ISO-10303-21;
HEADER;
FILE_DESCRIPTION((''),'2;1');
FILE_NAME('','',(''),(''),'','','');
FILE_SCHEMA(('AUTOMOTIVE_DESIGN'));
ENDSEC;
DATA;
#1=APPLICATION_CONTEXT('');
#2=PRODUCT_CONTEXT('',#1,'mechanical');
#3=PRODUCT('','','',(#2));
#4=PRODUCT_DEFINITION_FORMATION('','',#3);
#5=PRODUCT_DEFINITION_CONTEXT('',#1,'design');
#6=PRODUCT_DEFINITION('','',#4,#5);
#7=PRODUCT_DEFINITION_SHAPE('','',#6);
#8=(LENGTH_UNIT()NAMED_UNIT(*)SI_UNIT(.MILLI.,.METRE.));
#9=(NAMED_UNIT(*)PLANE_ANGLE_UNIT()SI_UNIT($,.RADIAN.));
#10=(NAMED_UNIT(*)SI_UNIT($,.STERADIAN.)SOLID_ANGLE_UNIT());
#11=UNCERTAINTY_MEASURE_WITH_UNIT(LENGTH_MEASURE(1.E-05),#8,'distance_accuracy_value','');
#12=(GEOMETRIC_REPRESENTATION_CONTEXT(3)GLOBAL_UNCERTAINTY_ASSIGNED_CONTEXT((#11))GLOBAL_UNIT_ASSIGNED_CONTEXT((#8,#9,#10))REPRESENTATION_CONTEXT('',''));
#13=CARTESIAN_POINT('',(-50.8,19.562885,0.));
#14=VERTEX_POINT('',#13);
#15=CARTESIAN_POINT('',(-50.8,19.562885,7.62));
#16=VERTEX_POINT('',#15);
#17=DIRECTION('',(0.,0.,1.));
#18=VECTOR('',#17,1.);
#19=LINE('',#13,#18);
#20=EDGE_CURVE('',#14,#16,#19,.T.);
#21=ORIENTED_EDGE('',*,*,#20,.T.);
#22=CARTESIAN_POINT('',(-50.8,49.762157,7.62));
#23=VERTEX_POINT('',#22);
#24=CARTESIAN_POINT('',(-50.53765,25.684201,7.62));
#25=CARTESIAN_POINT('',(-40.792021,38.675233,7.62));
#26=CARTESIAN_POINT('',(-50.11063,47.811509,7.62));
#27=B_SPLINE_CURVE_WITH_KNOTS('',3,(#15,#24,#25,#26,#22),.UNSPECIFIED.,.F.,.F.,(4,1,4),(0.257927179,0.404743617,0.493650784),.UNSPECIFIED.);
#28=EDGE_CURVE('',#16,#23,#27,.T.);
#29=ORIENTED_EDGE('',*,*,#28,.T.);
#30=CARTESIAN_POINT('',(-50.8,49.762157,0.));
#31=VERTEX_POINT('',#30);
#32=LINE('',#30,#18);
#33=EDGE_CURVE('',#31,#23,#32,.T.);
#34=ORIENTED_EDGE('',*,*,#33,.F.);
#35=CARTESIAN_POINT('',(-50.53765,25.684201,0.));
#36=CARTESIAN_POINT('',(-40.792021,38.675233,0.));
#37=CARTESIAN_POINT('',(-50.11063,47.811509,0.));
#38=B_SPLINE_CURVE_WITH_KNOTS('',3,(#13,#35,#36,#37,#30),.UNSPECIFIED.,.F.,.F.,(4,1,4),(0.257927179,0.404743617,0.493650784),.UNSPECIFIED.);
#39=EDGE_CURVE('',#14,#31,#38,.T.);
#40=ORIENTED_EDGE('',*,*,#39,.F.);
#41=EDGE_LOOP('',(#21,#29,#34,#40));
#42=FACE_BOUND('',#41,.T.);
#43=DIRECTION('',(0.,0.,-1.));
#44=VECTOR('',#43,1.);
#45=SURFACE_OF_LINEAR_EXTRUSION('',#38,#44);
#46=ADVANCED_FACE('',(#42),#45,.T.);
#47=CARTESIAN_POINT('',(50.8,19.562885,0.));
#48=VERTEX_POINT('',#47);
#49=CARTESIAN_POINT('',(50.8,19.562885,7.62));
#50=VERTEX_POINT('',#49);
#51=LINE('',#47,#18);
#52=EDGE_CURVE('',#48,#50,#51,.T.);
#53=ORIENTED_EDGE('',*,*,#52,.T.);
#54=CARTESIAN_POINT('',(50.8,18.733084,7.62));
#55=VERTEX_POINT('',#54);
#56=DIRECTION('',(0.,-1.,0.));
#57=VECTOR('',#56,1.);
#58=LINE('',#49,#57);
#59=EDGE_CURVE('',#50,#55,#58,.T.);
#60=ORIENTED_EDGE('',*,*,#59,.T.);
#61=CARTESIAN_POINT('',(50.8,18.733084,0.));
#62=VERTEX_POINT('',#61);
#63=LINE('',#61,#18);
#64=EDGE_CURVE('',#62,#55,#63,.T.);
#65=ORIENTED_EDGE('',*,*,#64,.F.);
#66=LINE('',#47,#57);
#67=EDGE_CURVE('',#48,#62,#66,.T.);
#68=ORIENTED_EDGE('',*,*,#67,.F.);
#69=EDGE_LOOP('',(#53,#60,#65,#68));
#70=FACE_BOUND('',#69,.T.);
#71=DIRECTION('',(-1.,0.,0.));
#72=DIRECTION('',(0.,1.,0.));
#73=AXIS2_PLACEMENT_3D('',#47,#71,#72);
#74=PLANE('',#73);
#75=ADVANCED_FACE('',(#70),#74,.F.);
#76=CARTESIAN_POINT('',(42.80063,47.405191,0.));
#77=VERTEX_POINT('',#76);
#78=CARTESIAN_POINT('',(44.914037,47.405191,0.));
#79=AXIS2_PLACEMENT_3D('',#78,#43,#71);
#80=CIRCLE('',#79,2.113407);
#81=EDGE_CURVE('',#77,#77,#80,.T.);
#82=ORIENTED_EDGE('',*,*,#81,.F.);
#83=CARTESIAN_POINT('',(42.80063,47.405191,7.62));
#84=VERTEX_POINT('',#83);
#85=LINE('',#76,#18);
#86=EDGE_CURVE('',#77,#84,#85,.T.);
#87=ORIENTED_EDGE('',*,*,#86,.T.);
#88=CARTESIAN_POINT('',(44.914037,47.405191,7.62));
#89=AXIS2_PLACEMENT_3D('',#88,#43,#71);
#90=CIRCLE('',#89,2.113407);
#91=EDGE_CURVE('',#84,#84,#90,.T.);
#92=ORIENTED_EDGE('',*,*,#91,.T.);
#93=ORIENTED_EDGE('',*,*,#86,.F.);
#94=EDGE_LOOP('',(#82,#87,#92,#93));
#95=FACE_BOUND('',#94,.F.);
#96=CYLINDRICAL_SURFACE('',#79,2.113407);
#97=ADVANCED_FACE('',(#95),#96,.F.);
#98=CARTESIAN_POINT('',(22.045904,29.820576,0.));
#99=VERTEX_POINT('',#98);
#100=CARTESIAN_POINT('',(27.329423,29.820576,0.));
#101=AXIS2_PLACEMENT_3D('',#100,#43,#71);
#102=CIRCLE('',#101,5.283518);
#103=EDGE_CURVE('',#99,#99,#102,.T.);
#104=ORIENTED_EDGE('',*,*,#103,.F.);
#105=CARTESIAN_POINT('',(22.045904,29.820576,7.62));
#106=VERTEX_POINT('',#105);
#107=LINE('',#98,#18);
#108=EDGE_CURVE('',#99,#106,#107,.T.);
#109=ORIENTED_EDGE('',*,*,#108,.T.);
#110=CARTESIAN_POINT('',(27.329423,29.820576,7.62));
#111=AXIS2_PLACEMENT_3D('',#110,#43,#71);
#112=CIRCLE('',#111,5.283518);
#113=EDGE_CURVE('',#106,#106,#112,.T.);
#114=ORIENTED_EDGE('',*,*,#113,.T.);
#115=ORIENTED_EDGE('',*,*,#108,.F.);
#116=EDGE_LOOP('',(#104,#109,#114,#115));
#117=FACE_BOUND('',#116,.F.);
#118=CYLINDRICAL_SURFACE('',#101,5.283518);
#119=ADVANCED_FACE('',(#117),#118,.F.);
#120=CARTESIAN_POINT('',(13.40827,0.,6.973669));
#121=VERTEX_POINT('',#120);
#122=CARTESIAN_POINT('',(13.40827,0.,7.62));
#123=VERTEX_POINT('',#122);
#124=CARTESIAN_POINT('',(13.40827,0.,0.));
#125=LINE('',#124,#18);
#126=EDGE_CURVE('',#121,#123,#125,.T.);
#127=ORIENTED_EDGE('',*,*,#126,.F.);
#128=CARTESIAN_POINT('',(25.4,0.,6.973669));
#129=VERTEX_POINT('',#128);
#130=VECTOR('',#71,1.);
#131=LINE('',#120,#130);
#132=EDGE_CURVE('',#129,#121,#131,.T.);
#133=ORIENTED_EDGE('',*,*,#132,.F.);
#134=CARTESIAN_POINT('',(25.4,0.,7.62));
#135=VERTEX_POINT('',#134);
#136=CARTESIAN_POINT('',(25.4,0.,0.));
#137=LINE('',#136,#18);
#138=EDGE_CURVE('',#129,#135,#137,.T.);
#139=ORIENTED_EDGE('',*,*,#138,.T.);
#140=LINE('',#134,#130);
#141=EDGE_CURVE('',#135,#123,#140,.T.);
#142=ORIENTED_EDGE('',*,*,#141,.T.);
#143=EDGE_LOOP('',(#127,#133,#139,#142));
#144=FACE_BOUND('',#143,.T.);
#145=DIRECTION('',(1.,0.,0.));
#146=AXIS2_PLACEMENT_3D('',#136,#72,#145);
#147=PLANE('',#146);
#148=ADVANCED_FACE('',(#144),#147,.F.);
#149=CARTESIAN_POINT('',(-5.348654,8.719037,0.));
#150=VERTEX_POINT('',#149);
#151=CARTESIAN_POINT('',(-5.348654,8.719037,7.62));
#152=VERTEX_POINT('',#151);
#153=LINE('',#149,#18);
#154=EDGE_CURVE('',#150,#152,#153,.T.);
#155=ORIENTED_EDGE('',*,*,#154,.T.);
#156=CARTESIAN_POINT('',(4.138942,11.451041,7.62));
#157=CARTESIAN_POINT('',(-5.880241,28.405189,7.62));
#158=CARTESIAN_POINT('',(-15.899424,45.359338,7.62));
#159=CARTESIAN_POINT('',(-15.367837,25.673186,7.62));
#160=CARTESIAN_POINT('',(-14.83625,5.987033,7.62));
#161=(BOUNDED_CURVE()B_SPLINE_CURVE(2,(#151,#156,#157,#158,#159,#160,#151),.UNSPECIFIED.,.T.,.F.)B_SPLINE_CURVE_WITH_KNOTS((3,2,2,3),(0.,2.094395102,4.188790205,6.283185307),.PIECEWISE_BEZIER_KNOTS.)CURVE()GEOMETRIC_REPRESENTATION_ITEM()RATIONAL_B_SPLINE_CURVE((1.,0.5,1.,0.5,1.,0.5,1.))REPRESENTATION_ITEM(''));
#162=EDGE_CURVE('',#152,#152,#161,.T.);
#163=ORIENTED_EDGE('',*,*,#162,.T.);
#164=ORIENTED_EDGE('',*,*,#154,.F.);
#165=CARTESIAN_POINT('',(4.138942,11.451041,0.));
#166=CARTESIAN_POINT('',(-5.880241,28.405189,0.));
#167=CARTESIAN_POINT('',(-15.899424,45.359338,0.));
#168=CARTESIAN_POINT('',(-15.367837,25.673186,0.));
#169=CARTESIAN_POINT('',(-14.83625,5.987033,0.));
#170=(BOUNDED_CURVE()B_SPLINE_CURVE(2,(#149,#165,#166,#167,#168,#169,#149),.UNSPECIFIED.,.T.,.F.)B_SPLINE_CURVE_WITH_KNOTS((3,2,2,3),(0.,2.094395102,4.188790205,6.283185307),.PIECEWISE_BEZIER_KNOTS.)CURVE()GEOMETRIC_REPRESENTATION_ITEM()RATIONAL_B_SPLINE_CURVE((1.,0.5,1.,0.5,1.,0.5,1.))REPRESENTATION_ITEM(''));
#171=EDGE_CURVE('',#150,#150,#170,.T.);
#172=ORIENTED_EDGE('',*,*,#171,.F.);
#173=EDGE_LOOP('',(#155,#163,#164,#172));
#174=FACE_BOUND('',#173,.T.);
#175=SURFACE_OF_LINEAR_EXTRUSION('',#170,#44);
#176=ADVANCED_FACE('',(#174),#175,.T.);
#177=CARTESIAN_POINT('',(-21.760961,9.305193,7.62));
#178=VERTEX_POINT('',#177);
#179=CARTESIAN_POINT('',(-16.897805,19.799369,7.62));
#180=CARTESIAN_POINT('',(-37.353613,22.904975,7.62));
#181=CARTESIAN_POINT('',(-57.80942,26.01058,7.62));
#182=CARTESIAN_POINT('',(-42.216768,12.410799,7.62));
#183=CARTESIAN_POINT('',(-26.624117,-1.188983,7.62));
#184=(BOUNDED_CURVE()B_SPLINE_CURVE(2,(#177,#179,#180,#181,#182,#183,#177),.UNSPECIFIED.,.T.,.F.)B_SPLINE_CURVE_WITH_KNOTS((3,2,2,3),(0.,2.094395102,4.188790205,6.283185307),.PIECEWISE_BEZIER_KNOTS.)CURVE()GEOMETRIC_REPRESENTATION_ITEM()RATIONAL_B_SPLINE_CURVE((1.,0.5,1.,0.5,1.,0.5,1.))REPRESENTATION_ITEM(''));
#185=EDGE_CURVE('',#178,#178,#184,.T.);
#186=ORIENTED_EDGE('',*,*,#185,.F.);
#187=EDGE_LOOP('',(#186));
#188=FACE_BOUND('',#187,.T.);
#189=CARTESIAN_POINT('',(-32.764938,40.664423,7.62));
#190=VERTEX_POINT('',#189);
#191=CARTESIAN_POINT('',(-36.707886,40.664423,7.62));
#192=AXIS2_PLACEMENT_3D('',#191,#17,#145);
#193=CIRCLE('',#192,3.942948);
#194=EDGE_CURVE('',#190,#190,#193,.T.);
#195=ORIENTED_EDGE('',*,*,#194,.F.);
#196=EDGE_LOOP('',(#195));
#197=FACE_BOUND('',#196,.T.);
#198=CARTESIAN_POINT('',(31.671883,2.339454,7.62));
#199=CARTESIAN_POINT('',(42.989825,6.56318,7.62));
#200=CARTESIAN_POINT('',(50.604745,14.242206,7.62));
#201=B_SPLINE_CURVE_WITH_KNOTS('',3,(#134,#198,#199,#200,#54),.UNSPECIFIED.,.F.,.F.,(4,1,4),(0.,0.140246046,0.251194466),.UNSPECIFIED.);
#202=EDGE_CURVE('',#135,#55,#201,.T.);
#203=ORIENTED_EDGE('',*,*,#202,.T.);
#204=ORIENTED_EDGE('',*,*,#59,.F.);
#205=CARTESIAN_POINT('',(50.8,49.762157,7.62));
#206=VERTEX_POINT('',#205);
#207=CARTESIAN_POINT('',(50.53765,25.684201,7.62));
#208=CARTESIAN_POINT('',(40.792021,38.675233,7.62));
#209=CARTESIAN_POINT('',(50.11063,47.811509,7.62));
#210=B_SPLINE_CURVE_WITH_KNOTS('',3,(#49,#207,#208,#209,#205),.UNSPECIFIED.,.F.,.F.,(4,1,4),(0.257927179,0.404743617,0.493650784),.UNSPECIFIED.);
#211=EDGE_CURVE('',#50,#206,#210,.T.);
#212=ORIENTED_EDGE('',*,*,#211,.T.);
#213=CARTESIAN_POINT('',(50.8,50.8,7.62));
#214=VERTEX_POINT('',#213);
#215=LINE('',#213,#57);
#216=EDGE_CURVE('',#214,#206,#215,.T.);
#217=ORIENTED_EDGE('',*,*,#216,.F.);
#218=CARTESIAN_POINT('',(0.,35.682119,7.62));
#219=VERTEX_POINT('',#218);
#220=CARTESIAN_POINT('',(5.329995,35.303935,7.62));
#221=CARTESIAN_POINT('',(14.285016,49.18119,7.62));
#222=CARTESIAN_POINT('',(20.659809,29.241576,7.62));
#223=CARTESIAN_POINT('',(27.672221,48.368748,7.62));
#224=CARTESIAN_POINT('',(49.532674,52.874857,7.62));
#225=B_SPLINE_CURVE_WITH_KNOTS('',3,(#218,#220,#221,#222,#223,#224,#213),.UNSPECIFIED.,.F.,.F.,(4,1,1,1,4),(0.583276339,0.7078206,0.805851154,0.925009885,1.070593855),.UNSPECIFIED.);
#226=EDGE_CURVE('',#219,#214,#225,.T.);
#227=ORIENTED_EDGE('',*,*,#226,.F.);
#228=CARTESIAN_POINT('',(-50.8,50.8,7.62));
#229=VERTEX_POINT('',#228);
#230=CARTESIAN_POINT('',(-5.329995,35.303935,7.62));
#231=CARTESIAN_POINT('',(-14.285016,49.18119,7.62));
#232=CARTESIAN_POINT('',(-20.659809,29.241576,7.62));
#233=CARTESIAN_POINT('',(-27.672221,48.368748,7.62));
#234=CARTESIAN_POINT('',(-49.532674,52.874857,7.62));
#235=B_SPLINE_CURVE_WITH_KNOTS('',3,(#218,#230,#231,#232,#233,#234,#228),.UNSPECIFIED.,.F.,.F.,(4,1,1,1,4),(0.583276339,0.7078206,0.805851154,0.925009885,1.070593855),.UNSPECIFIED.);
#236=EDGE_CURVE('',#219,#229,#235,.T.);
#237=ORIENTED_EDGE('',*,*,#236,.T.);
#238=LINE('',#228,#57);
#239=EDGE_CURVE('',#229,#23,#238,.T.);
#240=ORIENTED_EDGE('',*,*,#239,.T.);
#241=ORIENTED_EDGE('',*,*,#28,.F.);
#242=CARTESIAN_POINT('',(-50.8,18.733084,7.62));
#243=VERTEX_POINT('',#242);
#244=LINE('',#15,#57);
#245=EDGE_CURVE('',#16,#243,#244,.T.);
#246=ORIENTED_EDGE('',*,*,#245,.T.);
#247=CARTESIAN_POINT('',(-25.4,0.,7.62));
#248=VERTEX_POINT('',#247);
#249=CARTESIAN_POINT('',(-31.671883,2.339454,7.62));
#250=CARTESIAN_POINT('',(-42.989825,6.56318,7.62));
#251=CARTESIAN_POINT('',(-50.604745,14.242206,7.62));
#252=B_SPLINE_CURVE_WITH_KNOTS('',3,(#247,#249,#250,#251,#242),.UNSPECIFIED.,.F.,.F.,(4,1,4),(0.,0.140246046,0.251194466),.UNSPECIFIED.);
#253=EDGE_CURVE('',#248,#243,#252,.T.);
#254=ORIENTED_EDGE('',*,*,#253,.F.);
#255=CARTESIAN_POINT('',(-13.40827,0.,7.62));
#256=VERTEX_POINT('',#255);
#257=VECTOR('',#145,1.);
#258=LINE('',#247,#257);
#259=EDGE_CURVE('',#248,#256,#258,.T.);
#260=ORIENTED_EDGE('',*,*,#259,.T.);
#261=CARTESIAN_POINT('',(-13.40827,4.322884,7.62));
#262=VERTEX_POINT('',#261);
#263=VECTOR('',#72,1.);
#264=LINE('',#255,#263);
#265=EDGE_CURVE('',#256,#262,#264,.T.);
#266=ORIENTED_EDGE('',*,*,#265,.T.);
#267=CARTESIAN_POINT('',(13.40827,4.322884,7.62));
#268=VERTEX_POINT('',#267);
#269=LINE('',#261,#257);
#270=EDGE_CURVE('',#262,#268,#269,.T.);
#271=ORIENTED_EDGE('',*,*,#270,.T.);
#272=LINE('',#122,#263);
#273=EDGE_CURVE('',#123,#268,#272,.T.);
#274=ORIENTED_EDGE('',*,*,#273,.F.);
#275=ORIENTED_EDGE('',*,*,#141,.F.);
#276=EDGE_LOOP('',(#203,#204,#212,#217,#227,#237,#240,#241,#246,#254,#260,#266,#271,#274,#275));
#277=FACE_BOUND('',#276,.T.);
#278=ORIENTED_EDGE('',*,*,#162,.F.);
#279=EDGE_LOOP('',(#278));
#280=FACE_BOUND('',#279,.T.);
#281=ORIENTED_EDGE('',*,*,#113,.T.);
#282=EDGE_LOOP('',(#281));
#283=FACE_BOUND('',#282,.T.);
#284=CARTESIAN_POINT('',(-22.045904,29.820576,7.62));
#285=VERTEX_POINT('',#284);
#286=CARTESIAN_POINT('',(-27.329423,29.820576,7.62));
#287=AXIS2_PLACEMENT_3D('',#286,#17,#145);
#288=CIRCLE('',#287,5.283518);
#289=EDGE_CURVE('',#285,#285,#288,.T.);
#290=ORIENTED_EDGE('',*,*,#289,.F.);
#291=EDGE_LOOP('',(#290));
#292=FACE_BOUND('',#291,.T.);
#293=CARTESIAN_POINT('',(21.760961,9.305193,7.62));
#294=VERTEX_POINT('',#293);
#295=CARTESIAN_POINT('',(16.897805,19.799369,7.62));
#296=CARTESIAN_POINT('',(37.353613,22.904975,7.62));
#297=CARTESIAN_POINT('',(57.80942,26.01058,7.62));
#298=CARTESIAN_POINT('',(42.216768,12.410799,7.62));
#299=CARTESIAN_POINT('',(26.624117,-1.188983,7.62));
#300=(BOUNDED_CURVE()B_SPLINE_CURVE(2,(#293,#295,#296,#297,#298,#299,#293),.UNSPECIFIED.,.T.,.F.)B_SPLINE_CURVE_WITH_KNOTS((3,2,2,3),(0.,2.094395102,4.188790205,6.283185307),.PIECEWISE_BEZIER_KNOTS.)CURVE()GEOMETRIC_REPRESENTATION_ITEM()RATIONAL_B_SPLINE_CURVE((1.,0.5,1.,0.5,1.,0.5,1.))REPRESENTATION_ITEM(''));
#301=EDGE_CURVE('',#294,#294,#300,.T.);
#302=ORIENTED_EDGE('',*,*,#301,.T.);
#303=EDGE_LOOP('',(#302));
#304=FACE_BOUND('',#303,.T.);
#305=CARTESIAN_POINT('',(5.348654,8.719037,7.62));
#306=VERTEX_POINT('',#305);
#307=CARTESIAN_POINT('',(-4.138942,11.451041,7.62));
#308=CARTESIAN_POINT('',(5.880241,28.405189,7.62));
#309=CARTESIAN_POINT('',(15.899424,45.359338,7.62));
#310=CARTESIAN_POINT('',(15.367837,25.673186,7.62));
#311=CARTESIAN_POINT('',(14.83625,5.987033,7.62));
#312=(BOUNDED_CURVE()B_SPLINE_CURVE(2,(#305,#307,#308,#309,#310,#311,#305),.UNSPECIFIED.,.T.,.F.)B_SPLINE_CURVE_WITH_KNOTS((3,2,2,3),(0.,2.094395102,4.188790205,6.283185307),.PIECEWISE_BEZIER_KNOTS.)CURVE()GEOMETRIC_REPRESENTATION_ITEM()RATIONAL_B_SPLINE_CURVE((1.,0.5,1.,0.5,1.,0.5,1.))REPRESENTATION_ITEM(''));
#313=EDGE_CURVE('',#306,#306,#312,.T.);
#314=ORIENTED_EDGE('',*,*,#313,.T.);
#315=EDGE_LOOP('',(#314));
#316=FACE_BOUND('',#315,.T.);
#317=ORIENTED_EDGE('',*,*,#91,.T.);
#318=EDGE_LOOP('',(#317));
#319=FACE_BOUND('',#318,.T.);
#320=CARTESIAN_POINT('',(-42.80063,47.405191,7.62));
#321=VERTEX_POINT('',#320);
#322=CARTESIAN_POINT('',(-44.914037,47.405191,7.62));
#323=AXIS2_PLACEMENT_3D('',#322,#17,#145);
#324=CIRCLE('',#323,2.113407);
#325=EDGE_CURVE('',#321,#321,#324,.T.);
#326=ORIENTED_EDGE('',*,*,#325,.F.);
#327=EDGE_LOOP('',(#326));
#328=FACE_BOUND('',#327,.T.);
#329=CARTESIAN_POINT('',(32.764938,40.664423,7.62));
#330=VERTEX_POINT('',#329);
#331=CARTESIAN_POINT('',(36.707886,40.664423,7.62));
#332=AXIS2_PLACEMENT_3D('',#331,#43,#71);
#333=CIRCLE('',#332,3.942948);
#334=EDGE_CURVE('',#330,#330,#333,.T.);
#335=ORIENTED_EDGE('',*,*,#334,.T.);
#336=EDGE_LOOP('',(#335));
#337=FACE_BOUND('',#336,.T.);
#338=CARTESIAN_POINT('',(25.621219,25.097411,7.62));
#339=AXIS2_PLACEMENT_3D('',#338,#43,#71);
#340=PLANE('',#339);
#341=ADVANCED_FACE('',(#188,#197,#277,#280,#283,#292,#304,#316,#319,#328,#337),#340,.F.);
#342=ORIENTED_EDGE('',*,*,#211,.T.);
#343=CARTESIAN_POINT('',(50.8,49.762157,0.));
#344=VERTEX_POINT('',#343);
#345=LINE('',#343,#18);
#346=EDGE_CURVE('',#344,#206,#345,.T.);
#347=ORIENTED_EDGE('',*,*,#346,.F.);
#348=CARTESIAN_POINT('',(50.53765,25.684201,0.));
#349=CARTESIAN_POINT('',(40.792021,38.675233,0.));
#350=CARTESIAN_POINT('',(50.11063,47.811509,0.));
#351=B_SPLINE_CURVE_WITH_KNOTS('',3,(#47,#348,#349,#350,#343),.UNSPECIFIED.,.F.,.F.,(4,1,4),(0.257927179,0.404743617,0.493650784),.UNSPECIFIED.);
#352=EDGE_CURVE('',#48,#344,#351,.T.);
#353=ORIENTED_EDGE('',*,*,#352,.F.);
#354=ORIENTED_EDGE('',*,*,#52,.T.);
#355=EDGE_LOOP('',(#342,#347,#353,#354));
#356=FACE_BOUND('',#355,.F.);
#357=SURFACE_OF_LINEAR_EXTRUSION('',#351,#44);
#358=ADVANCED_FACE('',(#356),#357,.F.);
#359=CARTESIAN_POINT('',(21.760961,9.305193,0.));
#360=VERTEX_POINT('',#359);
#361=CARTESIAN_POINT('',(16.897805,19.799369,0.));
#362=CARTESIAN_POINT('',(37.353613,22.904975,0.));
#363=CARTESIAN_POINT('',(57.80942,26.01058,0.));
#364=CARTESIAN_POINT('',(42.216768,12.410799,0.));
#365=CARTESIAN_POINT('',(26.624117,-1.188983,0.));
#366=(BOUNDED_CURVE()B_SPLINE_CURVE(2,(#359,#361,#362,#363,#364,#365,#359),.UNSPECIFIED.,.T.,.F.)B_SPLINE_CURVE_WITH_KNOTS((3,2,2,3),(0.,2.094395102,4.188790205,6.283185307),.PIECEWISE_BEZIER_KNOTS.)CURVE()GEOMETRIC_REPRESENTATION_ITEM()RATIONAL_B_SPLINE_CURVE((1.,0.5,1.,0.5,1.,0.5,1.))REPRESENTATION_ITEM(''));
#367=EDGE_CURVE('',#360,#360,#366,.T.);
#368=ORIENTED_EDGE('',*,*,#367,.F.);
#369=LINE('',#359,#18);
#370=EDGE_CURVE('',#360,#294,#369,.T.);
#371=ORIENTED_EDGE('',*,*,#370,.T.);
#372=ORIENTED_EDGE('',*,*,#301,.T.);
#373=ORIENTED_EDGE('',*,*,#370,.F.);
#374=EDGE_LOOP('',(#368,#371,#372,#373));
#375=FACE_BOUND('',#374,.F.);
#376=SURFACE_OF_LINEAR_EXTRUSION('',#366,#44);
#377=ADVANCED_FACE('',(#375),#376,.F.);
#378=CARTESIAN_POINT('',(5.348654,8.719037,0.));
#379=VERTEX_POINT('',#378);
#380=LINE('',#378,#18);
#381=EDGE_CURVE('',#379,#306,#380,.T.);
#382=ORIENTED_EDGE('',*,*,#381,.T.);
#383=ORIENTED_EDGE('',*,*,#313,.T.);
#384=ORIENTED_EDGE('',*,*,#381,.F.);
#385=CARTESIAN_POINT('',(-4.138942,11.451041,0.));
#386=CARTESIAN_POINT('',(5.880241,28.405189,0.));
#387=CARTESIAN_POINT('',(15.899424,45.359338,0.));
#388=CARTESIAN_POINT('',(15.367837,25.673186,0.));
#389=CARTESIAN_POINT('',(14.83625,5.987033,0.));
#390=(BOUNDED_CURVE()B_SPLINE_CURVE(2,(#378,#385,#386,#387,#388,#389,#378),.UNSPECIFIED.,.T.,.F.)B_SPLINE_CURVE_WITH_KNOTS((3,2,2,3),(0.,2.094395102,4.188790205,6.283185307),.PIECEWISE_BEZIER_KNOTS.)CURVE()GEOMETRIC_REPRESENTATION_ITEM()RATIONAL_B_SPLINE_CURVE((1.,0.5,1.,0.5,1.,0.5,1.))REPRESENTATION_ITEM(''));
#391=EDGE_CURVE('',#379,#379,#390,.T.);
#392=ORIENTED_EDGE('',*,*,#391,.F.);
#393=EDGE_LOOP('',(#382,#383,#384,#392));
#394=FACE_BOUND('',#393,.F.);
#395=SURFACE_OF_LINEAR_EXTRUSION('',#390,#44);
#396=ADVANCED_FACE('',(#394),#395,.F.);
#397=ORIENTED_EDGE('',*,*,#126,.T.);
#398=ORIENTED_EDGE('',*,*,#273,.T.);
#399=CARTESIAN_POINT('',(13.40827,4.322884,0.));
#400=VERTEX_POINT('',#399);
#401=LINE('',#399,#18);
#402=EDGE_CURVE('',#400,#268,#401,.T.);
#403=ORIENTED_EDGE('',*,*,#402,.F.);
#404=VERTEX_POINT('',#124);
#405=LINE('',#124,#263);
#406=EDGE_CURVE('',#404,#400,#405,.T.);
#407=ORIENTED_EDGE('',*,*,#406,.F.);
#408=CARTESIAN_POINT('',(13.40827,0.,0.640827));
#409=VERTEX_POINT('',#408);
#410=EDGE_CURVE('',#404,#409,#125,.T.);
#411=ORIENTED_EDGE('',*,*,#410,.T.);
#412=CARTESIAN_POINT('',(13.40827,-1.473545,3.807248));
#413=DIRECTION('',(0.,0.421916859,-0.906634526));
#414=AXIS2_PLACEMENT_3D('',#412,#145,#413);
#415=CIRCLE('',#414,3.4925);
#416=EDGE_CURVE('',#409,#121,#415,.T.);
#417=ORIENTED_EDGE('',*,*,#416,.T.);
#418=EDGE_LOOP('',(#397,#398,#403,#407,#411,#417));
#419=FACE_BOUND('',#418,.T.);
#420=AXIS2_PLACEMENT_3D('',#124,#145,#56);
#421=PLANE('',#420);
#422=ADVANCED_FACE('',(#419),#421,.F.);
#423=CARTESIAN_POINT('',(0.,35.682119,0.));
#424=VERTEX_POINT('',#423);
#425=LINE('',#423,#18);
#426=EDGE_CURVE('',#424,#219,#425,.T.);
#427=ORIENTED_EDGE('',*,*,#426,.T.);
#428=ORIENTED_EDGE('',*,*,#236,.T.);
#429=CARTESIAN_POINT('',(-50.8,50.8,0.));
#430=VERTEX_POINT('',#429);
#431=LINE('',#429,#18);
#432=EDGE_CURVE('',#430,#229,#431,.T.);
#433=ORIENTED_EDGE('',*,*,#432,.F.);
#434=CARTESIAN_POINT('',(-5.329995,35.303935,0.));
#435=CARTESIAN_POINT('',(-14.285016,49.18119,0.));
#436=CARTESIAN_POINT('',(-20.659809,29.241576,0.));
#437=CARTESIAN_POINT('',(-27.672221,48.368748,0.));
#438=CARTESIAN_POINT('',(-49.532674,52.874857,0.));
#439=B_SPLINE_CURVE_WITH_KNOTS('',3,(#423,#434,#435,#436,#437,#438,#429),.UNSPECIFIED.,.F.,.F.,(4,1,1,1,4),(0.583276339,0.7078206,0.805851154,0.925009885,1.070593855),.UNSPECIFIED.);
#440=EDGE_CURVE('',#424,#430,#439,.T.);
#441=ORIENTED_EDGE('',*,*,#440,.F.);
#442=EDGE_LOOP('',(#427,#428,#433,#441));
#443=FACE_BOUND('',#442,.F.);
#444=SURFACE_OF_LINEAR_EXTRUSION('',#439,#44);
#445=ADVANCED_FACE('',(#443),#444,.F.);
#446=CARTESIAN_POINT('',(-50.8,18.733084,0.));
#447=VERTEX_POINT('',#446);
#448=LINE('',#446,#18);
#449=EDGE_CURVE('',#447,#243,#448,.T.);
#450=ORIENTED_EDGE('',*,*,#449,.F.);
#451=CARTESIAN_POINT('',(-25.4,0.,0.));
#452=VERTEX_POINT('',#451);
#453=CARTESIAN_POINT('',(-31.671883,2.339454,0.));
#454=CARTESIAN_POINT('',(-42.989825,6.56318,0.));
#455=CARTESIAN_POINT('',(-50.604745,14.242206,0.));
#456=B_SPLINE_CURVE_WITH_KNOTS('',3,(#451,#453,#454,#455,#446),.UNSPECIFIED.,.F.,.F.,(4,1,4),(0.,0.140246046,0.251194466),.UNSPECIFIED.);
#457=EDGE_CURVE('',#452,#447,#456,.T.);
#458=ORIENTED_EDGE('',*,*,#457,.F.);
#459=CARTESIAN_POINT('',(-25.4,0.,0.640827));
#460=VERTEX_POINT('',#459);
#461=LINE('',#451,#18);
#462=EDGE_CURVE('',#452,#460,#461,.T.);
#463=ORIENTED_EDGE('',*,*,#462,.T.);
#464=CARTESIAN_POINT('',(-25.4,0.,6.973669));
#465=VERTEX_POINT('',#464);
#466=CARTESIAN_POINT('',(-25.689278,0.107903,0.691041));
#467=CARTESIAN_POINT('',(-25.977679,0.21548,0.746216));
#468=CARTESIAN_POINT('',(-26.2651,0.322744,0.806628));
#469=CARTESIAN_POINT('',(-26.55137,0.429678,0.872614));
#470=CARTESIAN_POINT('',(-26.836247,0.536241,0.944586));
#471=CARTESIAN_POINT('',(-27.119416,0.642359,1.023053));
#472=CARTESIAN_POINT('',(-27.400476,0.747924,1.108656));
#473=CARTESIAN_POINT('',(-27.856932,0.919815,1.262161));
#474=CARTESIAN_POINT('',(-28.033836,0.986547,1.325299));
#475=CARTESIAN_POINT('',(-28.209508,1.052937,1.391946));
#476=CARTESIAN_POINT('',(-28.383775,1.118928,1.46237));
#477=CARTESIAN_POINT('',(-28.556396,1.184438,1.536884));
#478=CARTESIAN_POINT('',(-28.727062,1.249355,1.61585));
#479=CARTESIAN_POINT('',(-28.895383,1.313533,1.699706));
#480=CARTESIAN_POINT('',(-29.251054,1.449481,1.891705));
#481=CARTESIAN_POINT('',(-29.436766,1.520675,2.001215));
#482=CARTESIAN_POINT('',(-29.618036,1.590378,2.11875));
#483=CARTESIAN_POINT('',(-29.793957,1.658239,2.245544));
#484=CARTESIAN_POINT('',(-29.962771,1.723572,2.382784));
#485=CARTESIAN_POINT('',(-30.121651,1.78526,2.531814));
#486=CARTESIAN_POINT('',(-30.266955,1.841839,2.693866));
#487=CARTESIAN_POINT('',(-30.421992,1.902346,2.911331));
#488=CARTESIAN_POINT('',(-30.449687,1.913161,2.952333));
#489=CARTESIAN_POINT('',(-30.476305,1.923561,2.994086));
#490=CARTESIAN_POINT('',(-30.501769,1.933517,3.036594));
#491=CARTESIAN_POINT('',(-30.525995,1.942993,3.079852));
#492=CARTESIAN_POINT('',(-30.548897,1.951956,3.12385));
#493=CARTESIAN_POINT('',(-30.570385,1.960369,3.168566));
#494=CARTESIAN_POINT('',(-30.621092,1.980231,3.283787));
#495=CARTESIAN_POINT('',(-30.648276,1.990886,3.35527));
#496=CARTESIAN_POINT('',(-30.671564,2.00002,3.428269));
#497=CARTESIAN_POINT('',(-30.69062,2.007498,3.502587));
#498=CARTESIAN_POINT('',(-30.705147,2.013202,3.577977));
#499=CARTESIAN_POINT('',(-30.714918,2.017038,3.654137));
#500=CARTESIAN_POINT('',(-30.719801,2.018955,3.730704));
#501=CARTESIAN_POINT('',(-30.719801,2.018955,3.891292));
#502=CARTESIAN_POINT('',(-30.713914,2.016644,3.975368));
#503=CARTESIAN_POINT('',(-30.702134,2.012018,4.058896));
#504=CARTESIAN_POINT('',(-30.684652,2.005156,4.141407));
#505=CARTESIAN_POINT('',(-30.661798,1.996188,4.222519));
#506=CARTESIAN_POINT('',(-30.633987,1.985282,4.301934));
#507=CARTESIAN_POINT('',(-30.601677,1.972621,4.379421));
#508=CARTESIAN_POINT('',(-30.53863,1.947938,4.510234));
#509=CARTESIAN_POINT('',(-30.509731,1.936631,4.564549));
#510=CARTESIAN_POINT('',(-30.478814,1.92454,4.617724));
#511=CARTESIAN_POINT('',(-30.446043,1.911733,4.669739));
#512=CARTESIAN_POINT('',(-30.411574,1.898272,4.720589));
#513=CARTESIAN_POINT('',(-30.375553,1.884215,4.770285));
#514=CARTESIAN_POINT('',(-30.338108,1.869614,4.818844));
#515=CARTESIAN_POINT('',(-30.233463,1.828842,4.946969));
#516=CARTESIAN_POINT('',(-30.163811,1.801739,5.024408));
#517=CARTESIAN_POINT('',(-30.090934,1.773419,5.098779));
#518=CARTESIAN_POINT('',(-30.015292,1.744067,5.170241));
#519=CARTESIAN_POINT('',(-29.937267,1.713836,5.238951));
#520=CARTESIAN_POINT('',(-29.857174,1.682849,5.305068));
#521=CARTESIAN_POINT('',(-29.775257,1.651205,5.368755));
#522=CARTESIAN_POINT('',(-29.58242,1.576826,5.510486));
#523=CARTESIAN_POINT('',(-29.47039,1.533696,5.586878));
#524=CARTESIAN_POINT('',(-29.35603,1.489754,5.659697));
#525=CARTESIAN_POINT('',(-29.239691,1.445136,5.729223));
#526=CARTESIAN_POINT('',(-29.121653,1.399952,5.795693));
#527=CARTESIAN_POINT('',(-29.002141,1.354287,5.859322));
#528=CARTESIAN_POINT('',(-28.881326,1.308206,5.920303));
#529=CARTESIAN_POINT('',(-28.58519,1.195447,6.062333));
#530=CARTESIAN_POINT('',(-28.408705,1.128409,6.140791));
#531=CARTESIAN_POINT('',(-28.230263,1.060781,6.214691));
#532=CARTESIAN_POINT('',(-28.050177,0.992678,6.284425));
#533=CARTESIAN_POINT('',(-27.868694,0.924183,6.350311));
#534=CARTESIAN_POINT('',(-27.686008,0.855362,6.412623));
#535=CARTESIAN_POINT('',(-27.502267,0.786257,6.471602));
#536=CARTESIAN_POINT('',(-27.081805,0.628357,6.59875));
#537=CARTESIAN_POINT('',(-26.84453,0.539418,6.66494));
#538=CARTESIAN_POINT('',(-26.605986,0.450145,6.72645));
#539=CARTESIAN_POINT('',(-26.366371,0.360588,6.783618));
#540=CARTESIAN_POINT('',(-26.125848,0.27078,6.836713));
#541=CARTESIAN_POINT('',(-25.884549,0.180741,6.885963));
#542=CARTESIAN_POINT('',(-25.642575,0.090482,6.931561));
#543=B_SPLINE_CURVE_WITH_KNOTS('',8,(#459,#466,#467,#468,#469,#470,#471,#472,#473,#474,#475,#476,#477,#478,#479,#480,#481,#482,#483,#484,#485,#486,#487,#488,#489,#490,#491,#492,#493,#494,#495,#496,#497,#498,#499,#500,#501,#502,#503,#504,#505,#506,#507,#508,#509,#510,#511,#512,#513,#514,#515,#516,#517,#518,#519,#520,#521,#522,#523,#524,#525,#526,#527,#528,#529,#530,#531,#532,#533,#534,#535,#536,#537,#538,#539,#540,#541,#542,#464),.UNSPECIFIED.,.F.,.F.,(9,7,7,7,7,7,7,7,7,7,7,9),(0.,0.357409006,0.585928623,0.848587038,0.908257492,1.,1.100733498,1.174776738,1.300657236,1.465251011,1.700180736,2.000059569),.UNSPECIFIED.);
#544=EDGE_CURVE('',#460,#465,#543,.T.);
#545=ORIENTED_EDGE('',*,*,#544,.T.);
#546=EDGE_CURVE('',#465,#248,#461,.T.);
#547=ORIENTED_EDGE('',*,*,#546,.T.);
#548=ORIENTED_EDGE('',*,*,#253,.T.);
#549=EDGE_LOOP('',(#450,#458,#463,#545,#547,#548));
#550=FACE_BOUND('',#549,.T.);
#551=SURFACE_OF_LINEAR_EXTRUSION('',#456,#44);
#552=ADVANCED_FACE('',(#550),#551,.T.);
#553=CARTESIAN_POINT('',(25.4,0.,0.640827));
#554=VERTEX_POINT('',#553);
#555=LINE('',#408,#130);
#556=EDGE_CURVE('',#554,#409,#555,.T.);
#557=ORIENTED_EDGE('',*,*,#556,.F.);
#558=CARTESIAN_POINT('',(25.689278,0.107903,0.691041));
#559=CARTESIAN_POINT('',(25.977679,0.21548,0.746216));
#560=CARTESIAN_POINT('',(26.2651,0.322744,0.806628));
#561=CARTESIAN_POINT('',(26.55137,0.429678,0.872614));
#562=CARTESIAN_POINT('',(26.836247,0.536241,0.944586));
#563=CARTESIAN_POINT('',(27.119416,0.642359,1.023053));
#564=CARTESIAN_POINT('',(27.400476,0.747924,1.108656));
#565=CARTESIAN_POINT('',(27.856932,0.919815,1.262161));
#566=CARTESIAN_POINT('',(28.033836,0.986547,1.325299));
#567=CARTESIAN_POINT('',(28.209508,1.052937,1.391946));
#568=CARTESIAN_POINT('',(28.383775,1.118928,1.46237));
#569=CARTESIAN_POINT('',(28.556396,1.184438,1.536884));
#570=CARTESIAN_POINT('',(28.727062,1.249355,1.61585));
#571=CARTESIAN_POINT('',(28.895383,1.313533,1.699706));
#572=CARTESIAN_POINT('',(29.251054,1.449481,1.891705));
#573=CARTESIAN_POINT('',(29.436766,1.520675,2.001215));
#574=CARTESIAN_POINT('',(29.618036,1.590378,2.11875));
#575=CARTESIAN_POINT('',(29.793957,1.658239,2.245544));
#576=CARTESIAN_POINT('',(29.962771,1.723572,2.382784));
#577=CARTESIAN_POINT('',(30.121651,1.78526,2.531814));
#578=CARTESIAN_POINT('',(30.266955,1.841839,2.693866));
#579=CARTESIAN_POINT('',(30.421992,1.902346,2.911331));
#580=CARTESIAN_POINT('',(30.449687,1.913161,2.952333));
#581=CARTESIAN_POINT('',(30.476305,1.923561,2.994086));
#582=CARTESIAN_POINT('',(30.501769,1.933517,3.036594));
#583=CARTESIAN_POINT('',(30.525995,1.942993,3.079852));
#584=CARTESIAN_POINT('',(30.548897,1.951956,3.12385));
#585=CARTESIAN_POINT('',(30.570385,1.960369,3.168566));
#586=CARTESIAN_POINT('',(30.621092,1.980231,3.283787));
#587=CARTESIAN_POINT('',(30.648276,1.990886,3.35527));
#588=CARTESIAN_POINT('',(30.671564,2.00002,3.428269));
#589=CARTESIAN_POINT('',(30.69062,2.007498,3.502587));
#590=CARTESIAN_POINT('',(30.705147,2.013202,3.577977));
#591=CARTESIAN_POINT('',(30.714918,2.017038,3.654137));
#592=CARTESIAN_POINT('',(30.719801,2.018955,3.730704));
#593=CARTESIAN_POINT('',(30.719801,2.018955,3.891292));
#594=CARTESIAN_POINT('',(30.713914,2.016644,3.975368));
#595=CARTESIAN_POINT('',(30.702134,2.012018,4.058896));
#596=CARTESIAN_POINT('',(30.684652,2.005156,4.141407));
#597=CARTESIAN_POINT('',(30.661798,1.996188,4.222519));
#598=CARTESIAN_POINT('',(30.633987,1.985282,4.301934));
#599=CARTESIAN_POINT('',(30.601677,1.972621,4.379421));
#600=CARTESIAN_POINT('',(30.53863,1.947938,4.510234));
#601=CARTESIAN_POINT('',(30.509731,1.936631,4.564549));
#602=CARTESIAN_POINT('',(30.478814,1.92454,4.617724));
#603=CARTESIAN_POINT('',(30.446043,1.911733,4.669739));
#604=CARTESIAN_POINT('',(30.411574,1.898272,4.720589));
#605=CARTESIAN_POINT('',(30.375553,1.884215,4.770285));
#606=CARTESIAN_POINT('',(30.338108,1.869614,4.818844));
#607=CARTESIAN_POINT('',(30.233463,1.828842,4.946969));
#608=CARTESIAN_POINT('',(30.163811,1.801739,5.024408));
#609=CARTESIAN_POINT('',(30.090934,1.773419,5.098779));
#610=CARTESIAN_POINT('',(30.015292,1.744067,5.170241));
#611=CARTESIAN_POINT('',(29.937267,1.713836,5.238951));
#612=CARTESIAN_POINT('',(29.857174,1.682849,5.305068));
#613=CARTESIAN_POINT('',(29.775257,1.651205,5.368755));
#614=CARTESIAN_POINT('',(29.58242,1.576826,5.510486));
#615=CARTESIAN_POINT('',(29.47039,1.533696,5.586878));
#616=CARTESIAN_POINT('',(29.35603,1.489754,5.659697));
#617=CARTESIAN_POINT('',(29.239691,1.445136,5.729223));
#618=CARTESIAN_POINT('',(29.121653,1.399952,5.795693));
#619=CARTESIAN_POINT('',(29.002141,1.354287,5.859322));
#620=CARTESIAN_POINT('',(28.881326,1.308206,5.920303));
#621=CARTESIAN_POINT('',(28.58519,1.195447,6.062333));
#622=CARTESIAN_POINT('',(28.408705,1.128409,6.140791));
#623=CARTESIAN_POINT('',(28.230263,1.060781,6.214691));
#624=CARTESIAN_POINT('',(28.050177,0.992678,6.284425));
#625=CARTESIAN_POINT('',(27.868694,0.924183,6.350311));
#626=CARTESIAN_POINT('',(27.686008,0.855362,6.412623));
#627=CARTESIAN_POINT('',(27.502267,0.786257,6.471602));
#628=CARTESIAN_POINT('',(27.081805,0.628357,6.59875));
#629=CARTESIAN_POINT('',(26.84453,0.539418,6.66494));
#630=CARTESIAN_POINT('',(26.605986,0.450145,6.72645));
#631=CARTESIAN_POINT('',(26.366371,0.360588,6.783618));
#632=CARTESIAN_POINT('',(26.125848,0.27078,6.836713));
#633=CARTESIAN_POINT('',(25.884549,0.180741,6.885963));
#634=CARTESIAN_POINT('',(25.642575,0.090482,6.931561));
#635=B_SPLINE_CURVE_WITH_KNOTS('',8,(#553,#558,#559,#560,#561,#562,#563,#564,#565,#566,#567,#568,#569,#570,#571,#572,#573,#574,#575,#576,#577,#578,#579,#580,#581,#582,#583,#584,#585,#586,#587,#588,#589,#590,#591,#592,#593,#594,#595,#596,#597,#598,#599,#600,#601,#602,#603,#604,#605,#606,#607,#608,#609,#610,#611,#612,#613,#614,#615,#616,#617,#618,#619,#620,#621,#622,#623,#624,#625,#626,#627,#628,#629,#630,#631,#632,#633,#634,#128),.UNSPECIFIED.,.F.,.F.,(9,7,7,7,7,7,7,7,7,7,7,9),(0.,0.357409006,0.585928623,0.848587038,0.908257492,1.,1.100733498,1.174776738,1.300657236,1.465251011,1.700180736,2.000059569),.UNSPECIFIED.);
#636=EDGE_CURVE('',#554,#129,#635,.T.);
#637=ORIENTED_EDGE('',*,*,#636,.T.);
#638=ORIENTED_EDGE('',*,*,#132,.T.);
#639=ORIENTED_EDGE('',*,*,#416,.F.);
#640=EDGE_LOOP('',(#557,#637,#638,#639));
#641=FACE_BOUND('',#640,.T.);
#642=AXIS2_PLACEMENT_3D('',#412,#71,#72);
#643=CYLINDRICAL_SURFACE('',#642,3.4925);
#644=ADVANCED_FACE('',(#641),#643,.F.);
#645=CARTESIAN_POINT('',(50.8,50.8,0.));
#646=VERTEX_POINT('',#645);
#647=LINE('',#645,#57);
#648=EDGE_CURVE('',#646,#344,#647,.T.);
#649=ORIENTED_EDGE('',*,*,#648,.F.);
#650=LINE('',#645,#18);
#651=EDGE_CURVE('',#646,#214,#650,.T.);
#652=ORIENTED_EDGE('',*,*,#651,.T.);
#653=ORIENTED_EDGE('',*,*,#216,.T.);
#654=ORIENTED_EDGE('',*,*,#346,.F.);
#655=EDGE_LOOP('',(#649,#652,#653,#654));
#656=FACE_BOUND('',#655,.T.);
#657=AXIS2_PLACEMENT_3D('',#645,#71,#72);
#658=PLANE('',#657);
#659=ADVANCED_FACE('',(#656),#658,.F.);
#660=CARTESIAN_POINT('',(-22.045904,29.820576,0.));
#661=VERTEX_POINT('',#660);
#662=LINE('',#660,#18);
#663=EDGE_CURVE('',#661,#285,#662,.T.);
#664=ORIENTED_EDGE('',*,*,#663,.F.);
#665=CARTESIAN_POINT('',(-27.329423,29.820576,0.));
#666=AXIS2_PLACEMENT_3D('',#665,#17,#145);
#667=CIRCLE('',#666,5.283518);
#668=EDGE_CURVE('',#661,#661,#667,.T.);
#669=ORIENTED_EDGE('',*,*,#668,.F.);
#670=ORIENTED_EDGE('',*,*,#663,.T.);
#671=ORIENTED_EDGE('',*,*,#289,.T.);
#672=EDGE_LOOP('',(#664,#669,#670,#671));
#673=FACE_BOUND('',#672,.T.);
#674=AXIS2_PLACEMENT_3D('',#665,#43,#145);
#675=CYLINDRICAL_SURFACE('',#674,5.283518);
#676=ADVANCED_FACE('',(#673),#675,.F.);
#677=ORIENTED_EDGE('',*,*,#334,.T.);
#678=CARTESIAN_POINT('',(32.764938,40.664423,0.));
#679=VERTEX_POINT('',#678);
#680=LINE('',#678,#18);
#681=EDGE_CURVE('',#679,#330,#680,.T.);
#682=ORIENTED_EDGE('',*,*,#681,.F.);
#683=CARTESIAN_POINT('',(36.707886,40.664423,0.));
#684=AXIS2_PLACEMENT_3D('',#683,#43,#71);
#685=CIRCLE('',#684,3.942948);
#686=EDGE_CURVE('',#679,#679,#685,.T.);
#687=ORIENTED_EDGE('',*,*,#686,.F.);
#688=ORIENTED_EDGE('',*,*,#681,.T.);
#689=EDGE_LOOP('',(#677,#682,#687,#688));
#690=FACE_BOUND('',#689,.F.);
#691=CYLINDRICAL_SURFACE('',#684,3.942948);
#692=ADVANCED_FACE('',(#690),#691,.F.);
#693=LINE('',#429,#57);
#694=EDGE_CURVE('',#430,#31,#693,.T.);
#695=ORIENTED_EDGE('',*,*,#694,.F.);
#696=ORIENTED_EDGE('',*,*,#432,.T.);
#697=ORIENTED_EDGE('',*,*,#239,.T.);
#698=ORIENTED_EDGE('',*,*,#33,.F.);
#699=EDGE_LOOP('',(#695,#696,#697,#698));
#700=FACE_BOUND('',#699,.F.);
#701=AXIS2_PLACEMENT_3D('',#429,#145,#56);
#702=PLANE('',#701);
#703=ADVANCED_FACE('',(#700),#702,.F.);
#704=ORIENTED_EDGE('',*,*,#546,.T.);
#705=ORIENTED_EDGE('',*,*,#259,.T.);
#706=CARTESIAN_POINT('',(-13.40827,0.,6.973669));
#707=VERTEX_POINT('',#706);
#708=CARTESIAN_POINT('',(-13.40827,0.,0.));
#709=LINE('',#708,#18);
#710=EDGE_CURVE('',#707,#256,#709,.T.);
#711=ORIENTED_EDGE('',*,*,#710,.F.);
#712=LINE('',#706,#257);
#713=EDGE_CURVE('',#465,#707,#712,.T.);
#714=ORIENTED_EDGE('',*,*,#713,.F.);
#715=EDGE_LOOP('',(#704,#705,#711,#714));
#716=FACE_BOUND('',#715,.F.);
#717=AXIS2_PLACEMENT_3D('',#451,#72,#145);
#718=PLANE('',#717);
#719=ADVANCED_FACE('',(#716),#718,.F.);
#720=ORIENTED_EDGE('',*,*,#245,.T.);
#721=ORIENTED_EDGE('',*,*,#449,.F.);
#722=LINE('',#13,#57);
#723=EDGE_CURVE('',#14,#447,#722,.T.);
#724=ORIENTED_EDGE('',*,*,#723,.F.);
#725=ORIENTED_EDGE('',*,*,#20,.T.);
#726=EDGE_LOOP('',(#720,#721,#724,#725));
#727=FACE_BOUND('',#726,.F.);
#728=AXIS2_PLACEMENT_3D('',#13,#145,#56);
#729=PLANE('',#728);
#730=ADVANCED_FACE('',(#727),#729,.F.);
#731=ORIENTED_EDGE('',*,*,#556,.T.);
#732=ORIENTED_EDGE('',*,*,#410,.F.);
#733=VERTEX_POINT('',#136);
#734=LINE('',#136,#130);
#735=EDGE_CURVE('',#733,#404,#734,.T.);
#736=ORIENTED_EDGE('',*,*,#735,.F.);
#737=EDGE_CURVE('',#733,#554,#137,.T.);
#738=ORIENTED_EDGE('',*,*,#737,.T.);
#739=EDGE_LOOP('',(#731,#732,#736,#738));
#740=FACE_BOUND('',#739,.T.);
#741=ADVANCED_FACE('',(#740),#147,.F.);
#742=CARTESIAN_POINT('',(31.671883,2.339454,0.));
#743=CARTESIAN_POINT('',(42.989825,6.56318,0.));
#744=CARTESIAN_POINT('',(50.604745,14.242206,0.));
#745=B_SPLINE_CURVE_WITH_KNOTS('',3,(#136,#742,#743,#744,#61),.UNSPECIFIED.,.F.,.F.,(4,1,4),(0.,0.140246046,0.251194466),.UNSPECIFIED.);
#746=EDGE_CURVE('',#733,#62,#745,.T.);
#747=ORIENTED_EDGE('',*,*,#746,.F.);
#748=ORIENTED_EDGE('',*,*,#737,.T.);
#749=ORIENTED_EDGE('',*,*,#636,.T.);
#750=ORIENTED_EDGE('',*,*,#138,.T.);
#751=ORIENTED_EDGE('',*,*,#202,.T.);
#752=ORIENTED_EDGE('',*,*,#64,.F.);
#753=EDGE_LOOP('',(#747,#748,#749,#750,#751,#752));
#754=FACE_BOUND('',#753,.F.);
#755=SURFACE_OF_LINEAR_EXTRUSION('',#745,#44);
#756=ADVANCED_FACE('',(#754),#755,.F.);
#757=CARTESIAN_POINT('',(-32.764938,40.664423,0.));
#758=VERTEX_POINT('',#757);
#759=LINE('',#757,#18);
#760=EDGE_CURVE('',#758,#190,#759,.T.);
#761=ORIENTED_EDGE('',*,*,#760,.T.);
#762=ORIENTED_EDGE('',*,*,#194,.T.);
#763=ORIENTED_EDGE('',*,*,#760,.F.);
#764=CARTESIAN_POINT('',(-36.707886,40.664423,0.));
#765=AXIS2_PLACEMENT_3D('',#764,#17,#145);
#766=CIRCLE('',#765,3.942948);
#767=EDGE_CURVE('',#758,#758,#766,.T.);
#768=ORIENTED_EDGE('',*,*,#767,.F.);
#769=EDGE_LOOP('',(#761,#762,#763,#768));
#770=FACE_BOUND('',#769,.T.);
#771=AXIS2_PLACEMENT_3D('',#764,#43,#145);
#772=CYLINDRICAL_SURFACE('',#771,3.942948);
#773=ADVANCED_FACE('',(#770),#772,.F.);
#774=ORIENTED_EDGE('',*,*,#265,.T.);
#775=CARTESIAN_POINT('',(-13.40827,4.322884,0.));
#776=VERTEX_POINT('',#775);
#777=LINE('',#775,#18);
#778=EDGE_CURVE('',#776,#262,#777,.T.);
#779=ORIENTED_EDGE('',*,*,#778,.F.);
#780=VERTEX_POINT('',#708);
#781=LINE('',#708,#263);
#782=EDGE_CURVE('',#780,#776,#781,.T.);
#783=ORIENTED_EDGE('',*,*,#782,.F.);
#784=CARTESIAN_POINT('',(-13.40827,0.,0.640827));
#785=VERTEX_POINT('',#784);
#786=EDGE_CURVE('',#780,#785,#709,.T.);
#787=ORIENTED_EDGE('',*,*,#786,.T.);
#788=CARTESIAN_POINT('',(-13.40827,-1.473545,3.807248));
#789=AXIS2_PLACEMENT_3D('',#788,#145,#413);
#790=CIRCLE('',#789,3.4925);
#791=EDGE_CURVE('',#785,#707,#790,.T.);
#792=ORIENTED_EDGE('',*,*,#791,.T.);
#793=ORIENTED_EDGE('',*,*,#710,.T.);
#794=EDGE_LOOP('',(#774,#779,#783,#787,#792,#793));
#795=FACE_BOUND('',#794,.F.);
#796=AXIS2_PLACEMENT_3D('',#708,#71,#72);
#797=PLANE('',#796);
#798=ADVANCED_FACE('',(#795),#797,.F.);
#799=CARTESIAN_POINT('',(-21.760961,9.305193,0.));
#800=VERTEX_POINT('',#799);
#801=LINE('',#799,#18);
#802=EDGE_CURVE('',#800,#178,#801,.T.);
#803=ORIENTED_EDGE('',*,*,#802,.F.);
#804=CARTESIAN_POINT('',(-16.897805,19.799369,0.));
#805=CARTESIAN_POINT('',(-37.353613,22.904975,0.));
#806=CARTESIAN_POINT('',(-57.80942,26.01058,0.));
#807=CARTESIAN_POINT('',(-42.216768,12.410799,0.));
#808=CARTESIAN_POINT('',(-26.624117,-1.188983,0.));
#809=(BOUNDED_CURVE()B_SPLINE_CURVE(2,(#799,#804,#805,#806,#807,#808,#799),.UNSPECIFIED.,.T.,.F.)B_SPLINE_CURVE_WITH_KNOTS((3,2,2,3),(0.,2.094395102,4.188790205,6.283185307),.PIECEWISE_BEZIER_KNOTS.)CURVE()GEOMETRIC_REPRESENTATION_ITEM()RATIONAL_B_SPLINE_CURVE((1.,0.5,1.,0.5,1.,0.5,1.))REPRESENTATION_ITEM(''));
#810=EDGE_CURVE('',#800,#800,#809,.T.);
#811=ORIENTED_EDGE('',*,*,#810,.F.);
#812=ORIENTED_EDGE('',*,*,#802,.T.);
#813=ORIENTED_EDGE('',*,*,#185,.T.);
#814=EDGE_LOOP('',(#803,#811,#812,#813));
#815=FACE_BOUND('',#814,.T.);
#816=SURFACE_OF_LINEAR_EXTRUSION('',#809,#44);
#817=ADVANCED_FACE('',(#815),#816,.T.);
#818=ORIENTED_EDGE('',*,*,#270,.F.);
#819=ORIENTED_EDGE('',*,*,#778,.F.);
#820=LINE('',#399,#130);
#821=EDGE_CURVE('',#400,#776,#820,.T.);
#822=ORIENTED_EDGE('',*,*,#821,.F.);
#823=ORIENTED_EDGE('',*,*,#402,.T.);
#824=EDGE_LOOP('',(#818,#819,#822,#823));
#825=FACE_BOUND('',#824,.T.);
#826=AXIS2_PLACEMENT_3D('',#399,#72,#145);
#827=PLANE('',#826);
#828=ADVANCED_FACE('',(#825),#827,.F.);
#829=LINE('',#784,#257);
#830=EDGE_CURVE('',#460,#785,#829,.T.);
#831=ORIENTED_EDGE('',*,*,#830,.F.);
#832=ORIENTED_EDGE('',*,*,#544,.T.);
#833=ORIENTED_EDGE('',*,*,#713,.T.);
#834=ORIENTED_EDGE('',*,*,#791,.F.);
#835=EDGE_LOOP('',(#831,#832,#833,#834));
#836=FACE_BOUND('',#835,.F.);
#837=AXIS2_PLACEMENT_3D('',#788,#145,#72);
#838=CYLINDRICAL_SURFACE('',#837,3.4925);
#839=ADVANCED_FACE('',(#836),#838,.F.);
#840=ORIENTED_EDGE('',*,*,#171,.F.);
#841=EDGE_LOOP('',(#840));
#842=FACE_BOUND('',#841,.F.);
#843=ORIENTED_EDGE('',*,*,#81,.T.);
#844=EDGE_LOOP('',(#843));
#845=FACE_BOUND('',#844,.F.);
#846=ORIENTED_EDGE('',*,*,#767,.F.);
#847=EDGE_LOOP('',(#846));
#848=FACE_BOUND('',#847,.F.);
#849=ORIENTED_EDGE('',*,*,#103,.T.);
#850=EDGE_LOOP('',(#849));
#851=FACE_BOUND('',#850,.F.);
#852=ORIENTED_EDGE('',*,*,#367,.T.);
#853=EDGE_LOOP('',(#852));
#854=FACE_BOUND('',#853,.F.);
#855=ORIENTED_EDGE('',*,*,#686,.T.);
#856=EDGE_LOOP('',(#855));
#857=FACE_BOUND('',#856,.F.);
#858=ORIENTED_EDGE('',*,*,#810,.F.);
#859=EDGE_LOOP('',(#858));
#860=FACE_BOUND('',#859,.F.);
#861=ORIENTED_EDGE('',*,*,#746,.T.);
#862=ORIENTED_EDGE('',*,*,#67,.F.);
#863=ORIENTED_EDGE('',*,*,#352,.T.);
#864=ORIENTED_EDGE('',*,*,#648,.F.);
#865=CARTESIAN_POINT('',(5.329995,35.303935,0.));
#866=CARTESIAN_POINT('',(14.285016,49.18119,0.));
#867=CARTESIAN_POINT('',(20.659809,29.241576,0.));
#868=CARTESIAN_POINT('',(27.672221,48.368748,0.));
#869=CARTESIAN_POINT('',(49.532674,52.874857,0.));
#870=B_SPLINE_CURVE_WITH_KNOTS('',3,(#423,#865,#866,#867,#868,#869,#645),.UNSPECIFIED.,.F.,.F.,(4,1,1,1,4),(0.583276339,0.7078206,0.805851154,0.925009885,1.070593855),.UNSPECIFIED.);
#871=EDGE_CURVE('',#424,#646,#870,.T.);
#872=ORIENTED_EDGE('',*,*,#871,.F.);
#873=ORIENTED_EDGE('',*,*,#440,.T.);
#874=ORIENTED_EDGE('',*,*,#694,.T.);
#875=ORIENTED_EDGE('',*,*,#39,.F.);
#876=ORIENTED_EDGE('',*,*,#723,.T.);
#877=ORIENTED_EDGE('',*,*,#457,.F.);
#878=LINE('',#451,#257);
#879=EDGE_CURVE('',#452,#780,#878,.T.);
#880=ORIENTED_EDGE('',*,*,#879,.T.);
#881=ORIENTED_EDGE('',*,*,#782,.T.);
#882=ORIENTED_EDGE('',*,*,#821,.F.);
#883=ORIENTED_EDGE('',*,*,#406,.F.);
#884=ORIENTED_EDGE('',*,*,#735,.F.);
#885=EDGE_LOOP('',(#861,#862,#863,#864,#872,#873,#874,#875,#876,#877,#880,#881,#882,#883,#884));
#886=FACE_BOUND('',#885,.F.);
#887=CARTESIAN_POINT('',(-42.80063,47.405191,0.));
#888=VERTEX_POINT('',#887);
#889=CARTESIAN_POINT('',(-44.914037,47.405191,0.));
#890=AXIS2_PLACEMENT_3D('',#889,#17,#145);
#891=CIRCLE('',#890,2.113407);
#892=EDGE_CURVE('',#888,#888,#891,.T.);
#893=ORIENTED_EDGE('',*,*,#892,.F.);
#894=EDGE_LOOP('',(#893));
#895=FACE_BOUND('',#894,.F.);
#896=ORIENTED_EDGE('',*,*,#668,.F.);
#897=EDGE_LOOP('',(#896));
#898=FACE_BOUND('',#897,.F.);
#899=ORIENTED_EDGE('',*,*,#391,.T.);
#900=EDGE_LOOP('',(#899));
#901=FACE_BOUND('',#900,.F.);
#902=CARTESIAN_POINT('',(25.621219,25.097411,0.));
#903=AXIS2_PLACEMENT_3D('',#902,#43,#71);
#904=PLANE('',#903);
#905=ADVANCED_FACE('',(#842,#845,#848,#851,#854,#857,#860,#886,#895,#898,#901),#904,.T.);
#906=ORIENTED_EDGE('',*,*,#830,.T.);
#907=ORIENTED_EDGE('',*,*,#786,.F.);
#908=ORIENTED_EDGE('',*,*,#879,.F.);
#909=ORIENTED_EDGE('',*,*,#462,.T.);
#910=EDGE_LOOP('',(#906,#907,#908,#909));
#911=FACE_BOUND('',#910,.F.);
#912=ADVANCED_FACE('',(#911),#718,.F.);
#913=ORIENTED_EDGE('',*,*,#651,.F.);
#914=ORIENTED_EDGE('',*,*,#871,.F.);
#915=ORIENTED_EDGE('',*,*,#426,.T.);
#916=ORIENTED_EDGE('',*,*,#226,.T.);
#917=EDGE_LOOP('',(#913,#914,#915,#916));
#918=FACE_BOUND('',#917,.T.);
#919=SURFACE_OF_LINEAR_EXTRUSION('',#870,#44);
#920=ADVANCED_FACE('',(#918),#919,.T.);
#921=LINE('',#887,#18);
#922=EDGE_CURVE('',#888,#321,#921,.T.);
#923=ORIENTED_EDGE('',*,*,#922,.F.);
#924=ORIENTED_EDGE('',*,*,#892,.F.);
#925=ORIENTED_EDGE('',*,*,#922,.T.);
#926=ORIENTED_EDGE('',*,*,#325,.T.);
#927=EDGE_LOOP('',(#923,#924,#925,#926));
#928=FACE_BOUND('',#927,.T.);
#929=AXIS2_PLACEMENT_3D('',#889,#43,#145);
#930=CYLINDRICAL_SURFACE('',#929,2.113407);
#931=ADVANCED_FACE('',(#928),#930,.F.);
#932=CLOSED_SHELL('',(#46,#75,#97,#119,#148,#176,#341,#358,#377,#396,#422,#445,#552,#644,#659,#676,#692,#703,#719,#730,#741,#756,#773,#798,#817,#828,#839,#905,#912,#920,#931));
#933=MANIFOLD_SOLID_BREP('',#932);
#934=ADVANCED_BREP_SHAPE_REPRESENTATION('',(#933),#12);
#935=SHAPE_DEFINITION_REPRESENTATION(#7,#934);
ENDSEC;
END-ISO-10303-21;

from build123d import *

# Parameters (mm, degrees)
F0_R     = 5.2835182978
F0_R_2   = 2.1134065339
F0_R_3   = 3.9429478515
F1_DEPTH = 7.62
F2_R     = 3.4925
F3_DEPTH = 37.3927303668


with BuildPart() as f1:
    # F0 (on Top) → F1 (new body)
    with BuildSketch(Plane.XY):
        with BuildLine():
            add(Edge.make_bspline(
                [(-25.4, 0), (-31.6718828875, 2.3394538215), (-42.9898253464, 6.5631800278), (-50.6047454664, 14.2422063584), (-50.8, 18.7330837393)],
                knots=[0, 0, 0, 0, 0.140246046, 0.2511944658, 0.2511944658, 0.2511944658, 0.2511944658], degree=3))
            Line((-25.4, 0), (-13.4082697332, 0))
            Line((-13.4082697332, 0), (-13.4082697332, 4.322883673))
            Line((-13.4082697332, 4.322883673), (0, 4.322883673))
            Line((0, 4.322883673), (0, 35.6821194291))
            add(Edge.make_bspline(
                [(-43.1741077042, 50.8), (-39.0649289773, 49.7996498371), (-26.3076408146, 44.6466962013), (-20.6598086489, 29.2415761165), (-14.2850158717, 49.1811901273), (-5.3299946281, 35.3039347555), (0, 35.6821194291)],
                knots=[0.5832763386, 0.5832763386, 0.5832763386, 0.5832763386, 0.6582664538, 0.7774251841, 0.8754557385, 1, 1, 1, 1], degree=3))
            Line((-43.1741077042, 50.8), (-50.8, 50.8))
            Line((-50.8, 50.8), (-50.8, 49.7621565376))
            add(Edge.make_bspline(
                [(-50.8, 19.5628851652), (-50.5376498683, 25.6842007415), (-40.7920213284, 38.6752328694), (-50.1106304491, 47.8115094177), (-50.8, 49.7621565376)],
                knots=[0.2579271788, 0.2579271788, 0.2579271788, 0.2579271788, 0.4047436175, 0.4936507836, 0.4936507836, 0.4936507836, 0.4936507836], degree=3))
            Line((-50.8, 19.5628851652), (-50.8, 18.7330837393))
        make_face()
        with BuildLine():
            add(Edge.make_bspline(
                [(-21.7609610409, 9.3051930889), (-16.897805226, 19.7993689861), (-37.353612578, 22.9049746735), (-57.80941993, 26.0105803609), (-42.2167683928, 12.4107987764), (-26.6241168557, -1.1889828082), (-21.7609610409, 9.3051930889)],
                knots=[0, 0, 0, 2.0943951024, 2.0943951024, 4.1887902048, 4.1887902048, 6.2831853072, 6.2831853072, 6.2831853072], degree=2, weights=[1, 0.5, 1, 0.5, 1, 0.5, 1]))
        make_face(mode=Mode.SUBTRACT)
        with BuildLine():
            add(Edge.make_bspline(
                [(-5.3486539982, 8.7190372869), (4.1389422511, 11.4510411144), (-5.8802406294, 28.4051894583), (-15.8994235098, 45.3593378023), (-15.3678368787, 25.6731856309), (-14.8362502475, 5.9870334595), (-5.3486539982, 8.7190372869)],
                knots=[0, 0, 0, 2.0943951024, 2.0943951024, 4.1887902048, 4.1887902048, 6.2831853072, 6.2831853072, 6.2831853072], degree=2, weights=[1, 0.5, 1, 0.5, 1, 0.5, 1]))
        make_face(mode=Mode.SUBTRACT)
        with Locations((-27.3294225335, 29.8205763102)):
            Circle(F0_R, mode=Mode.SUBTRACT)
        with Locations((-44.9140369892, 47.4051907659)):
            Circle(F0_R_2, mode=Mode.SUBTRACT)
        with Locations((-36.7078855634, 40.6644232571)):
            Circle(F0_R_3, mode=Mode.SUBTRACT)
        with BuildLine():
            add(Edge.make_bspline(
                [(-50.8, 50.8), (-50.1854720511, 51.8061007413), (-47.0423877638, 51.7417051058), (-43.1741077042, 50.8)],
                knots=[0.5126824835, 0.5126824835, 0.5126824835, 0.5126824835, 0.5832763386, 0.5832763386, 0.5832763386, 0.5832763386], degree=3))
            Line((-50.8, 50.8), (-43.1741077042, 50.8))
        make_face()
    extrude(amount=F1_DEPTH)

    # F2 (on face) → F3 (cut, through all)
    with BuildSketch(Plane.YZ.offset(-13.4082697332)):
        with Locations((-1.4735446312, 3.8072476164)):
            Circle(F2_R)
    extrude(amount=-F3_DEPTH, mode=Mode.SUBTRACT)

    # F4: F1 across plane


with BuildPart() as f1_1:
    add(f1.part)
    add(f1.part.mirror(Plane.YZ))


solid = f1_1.part
